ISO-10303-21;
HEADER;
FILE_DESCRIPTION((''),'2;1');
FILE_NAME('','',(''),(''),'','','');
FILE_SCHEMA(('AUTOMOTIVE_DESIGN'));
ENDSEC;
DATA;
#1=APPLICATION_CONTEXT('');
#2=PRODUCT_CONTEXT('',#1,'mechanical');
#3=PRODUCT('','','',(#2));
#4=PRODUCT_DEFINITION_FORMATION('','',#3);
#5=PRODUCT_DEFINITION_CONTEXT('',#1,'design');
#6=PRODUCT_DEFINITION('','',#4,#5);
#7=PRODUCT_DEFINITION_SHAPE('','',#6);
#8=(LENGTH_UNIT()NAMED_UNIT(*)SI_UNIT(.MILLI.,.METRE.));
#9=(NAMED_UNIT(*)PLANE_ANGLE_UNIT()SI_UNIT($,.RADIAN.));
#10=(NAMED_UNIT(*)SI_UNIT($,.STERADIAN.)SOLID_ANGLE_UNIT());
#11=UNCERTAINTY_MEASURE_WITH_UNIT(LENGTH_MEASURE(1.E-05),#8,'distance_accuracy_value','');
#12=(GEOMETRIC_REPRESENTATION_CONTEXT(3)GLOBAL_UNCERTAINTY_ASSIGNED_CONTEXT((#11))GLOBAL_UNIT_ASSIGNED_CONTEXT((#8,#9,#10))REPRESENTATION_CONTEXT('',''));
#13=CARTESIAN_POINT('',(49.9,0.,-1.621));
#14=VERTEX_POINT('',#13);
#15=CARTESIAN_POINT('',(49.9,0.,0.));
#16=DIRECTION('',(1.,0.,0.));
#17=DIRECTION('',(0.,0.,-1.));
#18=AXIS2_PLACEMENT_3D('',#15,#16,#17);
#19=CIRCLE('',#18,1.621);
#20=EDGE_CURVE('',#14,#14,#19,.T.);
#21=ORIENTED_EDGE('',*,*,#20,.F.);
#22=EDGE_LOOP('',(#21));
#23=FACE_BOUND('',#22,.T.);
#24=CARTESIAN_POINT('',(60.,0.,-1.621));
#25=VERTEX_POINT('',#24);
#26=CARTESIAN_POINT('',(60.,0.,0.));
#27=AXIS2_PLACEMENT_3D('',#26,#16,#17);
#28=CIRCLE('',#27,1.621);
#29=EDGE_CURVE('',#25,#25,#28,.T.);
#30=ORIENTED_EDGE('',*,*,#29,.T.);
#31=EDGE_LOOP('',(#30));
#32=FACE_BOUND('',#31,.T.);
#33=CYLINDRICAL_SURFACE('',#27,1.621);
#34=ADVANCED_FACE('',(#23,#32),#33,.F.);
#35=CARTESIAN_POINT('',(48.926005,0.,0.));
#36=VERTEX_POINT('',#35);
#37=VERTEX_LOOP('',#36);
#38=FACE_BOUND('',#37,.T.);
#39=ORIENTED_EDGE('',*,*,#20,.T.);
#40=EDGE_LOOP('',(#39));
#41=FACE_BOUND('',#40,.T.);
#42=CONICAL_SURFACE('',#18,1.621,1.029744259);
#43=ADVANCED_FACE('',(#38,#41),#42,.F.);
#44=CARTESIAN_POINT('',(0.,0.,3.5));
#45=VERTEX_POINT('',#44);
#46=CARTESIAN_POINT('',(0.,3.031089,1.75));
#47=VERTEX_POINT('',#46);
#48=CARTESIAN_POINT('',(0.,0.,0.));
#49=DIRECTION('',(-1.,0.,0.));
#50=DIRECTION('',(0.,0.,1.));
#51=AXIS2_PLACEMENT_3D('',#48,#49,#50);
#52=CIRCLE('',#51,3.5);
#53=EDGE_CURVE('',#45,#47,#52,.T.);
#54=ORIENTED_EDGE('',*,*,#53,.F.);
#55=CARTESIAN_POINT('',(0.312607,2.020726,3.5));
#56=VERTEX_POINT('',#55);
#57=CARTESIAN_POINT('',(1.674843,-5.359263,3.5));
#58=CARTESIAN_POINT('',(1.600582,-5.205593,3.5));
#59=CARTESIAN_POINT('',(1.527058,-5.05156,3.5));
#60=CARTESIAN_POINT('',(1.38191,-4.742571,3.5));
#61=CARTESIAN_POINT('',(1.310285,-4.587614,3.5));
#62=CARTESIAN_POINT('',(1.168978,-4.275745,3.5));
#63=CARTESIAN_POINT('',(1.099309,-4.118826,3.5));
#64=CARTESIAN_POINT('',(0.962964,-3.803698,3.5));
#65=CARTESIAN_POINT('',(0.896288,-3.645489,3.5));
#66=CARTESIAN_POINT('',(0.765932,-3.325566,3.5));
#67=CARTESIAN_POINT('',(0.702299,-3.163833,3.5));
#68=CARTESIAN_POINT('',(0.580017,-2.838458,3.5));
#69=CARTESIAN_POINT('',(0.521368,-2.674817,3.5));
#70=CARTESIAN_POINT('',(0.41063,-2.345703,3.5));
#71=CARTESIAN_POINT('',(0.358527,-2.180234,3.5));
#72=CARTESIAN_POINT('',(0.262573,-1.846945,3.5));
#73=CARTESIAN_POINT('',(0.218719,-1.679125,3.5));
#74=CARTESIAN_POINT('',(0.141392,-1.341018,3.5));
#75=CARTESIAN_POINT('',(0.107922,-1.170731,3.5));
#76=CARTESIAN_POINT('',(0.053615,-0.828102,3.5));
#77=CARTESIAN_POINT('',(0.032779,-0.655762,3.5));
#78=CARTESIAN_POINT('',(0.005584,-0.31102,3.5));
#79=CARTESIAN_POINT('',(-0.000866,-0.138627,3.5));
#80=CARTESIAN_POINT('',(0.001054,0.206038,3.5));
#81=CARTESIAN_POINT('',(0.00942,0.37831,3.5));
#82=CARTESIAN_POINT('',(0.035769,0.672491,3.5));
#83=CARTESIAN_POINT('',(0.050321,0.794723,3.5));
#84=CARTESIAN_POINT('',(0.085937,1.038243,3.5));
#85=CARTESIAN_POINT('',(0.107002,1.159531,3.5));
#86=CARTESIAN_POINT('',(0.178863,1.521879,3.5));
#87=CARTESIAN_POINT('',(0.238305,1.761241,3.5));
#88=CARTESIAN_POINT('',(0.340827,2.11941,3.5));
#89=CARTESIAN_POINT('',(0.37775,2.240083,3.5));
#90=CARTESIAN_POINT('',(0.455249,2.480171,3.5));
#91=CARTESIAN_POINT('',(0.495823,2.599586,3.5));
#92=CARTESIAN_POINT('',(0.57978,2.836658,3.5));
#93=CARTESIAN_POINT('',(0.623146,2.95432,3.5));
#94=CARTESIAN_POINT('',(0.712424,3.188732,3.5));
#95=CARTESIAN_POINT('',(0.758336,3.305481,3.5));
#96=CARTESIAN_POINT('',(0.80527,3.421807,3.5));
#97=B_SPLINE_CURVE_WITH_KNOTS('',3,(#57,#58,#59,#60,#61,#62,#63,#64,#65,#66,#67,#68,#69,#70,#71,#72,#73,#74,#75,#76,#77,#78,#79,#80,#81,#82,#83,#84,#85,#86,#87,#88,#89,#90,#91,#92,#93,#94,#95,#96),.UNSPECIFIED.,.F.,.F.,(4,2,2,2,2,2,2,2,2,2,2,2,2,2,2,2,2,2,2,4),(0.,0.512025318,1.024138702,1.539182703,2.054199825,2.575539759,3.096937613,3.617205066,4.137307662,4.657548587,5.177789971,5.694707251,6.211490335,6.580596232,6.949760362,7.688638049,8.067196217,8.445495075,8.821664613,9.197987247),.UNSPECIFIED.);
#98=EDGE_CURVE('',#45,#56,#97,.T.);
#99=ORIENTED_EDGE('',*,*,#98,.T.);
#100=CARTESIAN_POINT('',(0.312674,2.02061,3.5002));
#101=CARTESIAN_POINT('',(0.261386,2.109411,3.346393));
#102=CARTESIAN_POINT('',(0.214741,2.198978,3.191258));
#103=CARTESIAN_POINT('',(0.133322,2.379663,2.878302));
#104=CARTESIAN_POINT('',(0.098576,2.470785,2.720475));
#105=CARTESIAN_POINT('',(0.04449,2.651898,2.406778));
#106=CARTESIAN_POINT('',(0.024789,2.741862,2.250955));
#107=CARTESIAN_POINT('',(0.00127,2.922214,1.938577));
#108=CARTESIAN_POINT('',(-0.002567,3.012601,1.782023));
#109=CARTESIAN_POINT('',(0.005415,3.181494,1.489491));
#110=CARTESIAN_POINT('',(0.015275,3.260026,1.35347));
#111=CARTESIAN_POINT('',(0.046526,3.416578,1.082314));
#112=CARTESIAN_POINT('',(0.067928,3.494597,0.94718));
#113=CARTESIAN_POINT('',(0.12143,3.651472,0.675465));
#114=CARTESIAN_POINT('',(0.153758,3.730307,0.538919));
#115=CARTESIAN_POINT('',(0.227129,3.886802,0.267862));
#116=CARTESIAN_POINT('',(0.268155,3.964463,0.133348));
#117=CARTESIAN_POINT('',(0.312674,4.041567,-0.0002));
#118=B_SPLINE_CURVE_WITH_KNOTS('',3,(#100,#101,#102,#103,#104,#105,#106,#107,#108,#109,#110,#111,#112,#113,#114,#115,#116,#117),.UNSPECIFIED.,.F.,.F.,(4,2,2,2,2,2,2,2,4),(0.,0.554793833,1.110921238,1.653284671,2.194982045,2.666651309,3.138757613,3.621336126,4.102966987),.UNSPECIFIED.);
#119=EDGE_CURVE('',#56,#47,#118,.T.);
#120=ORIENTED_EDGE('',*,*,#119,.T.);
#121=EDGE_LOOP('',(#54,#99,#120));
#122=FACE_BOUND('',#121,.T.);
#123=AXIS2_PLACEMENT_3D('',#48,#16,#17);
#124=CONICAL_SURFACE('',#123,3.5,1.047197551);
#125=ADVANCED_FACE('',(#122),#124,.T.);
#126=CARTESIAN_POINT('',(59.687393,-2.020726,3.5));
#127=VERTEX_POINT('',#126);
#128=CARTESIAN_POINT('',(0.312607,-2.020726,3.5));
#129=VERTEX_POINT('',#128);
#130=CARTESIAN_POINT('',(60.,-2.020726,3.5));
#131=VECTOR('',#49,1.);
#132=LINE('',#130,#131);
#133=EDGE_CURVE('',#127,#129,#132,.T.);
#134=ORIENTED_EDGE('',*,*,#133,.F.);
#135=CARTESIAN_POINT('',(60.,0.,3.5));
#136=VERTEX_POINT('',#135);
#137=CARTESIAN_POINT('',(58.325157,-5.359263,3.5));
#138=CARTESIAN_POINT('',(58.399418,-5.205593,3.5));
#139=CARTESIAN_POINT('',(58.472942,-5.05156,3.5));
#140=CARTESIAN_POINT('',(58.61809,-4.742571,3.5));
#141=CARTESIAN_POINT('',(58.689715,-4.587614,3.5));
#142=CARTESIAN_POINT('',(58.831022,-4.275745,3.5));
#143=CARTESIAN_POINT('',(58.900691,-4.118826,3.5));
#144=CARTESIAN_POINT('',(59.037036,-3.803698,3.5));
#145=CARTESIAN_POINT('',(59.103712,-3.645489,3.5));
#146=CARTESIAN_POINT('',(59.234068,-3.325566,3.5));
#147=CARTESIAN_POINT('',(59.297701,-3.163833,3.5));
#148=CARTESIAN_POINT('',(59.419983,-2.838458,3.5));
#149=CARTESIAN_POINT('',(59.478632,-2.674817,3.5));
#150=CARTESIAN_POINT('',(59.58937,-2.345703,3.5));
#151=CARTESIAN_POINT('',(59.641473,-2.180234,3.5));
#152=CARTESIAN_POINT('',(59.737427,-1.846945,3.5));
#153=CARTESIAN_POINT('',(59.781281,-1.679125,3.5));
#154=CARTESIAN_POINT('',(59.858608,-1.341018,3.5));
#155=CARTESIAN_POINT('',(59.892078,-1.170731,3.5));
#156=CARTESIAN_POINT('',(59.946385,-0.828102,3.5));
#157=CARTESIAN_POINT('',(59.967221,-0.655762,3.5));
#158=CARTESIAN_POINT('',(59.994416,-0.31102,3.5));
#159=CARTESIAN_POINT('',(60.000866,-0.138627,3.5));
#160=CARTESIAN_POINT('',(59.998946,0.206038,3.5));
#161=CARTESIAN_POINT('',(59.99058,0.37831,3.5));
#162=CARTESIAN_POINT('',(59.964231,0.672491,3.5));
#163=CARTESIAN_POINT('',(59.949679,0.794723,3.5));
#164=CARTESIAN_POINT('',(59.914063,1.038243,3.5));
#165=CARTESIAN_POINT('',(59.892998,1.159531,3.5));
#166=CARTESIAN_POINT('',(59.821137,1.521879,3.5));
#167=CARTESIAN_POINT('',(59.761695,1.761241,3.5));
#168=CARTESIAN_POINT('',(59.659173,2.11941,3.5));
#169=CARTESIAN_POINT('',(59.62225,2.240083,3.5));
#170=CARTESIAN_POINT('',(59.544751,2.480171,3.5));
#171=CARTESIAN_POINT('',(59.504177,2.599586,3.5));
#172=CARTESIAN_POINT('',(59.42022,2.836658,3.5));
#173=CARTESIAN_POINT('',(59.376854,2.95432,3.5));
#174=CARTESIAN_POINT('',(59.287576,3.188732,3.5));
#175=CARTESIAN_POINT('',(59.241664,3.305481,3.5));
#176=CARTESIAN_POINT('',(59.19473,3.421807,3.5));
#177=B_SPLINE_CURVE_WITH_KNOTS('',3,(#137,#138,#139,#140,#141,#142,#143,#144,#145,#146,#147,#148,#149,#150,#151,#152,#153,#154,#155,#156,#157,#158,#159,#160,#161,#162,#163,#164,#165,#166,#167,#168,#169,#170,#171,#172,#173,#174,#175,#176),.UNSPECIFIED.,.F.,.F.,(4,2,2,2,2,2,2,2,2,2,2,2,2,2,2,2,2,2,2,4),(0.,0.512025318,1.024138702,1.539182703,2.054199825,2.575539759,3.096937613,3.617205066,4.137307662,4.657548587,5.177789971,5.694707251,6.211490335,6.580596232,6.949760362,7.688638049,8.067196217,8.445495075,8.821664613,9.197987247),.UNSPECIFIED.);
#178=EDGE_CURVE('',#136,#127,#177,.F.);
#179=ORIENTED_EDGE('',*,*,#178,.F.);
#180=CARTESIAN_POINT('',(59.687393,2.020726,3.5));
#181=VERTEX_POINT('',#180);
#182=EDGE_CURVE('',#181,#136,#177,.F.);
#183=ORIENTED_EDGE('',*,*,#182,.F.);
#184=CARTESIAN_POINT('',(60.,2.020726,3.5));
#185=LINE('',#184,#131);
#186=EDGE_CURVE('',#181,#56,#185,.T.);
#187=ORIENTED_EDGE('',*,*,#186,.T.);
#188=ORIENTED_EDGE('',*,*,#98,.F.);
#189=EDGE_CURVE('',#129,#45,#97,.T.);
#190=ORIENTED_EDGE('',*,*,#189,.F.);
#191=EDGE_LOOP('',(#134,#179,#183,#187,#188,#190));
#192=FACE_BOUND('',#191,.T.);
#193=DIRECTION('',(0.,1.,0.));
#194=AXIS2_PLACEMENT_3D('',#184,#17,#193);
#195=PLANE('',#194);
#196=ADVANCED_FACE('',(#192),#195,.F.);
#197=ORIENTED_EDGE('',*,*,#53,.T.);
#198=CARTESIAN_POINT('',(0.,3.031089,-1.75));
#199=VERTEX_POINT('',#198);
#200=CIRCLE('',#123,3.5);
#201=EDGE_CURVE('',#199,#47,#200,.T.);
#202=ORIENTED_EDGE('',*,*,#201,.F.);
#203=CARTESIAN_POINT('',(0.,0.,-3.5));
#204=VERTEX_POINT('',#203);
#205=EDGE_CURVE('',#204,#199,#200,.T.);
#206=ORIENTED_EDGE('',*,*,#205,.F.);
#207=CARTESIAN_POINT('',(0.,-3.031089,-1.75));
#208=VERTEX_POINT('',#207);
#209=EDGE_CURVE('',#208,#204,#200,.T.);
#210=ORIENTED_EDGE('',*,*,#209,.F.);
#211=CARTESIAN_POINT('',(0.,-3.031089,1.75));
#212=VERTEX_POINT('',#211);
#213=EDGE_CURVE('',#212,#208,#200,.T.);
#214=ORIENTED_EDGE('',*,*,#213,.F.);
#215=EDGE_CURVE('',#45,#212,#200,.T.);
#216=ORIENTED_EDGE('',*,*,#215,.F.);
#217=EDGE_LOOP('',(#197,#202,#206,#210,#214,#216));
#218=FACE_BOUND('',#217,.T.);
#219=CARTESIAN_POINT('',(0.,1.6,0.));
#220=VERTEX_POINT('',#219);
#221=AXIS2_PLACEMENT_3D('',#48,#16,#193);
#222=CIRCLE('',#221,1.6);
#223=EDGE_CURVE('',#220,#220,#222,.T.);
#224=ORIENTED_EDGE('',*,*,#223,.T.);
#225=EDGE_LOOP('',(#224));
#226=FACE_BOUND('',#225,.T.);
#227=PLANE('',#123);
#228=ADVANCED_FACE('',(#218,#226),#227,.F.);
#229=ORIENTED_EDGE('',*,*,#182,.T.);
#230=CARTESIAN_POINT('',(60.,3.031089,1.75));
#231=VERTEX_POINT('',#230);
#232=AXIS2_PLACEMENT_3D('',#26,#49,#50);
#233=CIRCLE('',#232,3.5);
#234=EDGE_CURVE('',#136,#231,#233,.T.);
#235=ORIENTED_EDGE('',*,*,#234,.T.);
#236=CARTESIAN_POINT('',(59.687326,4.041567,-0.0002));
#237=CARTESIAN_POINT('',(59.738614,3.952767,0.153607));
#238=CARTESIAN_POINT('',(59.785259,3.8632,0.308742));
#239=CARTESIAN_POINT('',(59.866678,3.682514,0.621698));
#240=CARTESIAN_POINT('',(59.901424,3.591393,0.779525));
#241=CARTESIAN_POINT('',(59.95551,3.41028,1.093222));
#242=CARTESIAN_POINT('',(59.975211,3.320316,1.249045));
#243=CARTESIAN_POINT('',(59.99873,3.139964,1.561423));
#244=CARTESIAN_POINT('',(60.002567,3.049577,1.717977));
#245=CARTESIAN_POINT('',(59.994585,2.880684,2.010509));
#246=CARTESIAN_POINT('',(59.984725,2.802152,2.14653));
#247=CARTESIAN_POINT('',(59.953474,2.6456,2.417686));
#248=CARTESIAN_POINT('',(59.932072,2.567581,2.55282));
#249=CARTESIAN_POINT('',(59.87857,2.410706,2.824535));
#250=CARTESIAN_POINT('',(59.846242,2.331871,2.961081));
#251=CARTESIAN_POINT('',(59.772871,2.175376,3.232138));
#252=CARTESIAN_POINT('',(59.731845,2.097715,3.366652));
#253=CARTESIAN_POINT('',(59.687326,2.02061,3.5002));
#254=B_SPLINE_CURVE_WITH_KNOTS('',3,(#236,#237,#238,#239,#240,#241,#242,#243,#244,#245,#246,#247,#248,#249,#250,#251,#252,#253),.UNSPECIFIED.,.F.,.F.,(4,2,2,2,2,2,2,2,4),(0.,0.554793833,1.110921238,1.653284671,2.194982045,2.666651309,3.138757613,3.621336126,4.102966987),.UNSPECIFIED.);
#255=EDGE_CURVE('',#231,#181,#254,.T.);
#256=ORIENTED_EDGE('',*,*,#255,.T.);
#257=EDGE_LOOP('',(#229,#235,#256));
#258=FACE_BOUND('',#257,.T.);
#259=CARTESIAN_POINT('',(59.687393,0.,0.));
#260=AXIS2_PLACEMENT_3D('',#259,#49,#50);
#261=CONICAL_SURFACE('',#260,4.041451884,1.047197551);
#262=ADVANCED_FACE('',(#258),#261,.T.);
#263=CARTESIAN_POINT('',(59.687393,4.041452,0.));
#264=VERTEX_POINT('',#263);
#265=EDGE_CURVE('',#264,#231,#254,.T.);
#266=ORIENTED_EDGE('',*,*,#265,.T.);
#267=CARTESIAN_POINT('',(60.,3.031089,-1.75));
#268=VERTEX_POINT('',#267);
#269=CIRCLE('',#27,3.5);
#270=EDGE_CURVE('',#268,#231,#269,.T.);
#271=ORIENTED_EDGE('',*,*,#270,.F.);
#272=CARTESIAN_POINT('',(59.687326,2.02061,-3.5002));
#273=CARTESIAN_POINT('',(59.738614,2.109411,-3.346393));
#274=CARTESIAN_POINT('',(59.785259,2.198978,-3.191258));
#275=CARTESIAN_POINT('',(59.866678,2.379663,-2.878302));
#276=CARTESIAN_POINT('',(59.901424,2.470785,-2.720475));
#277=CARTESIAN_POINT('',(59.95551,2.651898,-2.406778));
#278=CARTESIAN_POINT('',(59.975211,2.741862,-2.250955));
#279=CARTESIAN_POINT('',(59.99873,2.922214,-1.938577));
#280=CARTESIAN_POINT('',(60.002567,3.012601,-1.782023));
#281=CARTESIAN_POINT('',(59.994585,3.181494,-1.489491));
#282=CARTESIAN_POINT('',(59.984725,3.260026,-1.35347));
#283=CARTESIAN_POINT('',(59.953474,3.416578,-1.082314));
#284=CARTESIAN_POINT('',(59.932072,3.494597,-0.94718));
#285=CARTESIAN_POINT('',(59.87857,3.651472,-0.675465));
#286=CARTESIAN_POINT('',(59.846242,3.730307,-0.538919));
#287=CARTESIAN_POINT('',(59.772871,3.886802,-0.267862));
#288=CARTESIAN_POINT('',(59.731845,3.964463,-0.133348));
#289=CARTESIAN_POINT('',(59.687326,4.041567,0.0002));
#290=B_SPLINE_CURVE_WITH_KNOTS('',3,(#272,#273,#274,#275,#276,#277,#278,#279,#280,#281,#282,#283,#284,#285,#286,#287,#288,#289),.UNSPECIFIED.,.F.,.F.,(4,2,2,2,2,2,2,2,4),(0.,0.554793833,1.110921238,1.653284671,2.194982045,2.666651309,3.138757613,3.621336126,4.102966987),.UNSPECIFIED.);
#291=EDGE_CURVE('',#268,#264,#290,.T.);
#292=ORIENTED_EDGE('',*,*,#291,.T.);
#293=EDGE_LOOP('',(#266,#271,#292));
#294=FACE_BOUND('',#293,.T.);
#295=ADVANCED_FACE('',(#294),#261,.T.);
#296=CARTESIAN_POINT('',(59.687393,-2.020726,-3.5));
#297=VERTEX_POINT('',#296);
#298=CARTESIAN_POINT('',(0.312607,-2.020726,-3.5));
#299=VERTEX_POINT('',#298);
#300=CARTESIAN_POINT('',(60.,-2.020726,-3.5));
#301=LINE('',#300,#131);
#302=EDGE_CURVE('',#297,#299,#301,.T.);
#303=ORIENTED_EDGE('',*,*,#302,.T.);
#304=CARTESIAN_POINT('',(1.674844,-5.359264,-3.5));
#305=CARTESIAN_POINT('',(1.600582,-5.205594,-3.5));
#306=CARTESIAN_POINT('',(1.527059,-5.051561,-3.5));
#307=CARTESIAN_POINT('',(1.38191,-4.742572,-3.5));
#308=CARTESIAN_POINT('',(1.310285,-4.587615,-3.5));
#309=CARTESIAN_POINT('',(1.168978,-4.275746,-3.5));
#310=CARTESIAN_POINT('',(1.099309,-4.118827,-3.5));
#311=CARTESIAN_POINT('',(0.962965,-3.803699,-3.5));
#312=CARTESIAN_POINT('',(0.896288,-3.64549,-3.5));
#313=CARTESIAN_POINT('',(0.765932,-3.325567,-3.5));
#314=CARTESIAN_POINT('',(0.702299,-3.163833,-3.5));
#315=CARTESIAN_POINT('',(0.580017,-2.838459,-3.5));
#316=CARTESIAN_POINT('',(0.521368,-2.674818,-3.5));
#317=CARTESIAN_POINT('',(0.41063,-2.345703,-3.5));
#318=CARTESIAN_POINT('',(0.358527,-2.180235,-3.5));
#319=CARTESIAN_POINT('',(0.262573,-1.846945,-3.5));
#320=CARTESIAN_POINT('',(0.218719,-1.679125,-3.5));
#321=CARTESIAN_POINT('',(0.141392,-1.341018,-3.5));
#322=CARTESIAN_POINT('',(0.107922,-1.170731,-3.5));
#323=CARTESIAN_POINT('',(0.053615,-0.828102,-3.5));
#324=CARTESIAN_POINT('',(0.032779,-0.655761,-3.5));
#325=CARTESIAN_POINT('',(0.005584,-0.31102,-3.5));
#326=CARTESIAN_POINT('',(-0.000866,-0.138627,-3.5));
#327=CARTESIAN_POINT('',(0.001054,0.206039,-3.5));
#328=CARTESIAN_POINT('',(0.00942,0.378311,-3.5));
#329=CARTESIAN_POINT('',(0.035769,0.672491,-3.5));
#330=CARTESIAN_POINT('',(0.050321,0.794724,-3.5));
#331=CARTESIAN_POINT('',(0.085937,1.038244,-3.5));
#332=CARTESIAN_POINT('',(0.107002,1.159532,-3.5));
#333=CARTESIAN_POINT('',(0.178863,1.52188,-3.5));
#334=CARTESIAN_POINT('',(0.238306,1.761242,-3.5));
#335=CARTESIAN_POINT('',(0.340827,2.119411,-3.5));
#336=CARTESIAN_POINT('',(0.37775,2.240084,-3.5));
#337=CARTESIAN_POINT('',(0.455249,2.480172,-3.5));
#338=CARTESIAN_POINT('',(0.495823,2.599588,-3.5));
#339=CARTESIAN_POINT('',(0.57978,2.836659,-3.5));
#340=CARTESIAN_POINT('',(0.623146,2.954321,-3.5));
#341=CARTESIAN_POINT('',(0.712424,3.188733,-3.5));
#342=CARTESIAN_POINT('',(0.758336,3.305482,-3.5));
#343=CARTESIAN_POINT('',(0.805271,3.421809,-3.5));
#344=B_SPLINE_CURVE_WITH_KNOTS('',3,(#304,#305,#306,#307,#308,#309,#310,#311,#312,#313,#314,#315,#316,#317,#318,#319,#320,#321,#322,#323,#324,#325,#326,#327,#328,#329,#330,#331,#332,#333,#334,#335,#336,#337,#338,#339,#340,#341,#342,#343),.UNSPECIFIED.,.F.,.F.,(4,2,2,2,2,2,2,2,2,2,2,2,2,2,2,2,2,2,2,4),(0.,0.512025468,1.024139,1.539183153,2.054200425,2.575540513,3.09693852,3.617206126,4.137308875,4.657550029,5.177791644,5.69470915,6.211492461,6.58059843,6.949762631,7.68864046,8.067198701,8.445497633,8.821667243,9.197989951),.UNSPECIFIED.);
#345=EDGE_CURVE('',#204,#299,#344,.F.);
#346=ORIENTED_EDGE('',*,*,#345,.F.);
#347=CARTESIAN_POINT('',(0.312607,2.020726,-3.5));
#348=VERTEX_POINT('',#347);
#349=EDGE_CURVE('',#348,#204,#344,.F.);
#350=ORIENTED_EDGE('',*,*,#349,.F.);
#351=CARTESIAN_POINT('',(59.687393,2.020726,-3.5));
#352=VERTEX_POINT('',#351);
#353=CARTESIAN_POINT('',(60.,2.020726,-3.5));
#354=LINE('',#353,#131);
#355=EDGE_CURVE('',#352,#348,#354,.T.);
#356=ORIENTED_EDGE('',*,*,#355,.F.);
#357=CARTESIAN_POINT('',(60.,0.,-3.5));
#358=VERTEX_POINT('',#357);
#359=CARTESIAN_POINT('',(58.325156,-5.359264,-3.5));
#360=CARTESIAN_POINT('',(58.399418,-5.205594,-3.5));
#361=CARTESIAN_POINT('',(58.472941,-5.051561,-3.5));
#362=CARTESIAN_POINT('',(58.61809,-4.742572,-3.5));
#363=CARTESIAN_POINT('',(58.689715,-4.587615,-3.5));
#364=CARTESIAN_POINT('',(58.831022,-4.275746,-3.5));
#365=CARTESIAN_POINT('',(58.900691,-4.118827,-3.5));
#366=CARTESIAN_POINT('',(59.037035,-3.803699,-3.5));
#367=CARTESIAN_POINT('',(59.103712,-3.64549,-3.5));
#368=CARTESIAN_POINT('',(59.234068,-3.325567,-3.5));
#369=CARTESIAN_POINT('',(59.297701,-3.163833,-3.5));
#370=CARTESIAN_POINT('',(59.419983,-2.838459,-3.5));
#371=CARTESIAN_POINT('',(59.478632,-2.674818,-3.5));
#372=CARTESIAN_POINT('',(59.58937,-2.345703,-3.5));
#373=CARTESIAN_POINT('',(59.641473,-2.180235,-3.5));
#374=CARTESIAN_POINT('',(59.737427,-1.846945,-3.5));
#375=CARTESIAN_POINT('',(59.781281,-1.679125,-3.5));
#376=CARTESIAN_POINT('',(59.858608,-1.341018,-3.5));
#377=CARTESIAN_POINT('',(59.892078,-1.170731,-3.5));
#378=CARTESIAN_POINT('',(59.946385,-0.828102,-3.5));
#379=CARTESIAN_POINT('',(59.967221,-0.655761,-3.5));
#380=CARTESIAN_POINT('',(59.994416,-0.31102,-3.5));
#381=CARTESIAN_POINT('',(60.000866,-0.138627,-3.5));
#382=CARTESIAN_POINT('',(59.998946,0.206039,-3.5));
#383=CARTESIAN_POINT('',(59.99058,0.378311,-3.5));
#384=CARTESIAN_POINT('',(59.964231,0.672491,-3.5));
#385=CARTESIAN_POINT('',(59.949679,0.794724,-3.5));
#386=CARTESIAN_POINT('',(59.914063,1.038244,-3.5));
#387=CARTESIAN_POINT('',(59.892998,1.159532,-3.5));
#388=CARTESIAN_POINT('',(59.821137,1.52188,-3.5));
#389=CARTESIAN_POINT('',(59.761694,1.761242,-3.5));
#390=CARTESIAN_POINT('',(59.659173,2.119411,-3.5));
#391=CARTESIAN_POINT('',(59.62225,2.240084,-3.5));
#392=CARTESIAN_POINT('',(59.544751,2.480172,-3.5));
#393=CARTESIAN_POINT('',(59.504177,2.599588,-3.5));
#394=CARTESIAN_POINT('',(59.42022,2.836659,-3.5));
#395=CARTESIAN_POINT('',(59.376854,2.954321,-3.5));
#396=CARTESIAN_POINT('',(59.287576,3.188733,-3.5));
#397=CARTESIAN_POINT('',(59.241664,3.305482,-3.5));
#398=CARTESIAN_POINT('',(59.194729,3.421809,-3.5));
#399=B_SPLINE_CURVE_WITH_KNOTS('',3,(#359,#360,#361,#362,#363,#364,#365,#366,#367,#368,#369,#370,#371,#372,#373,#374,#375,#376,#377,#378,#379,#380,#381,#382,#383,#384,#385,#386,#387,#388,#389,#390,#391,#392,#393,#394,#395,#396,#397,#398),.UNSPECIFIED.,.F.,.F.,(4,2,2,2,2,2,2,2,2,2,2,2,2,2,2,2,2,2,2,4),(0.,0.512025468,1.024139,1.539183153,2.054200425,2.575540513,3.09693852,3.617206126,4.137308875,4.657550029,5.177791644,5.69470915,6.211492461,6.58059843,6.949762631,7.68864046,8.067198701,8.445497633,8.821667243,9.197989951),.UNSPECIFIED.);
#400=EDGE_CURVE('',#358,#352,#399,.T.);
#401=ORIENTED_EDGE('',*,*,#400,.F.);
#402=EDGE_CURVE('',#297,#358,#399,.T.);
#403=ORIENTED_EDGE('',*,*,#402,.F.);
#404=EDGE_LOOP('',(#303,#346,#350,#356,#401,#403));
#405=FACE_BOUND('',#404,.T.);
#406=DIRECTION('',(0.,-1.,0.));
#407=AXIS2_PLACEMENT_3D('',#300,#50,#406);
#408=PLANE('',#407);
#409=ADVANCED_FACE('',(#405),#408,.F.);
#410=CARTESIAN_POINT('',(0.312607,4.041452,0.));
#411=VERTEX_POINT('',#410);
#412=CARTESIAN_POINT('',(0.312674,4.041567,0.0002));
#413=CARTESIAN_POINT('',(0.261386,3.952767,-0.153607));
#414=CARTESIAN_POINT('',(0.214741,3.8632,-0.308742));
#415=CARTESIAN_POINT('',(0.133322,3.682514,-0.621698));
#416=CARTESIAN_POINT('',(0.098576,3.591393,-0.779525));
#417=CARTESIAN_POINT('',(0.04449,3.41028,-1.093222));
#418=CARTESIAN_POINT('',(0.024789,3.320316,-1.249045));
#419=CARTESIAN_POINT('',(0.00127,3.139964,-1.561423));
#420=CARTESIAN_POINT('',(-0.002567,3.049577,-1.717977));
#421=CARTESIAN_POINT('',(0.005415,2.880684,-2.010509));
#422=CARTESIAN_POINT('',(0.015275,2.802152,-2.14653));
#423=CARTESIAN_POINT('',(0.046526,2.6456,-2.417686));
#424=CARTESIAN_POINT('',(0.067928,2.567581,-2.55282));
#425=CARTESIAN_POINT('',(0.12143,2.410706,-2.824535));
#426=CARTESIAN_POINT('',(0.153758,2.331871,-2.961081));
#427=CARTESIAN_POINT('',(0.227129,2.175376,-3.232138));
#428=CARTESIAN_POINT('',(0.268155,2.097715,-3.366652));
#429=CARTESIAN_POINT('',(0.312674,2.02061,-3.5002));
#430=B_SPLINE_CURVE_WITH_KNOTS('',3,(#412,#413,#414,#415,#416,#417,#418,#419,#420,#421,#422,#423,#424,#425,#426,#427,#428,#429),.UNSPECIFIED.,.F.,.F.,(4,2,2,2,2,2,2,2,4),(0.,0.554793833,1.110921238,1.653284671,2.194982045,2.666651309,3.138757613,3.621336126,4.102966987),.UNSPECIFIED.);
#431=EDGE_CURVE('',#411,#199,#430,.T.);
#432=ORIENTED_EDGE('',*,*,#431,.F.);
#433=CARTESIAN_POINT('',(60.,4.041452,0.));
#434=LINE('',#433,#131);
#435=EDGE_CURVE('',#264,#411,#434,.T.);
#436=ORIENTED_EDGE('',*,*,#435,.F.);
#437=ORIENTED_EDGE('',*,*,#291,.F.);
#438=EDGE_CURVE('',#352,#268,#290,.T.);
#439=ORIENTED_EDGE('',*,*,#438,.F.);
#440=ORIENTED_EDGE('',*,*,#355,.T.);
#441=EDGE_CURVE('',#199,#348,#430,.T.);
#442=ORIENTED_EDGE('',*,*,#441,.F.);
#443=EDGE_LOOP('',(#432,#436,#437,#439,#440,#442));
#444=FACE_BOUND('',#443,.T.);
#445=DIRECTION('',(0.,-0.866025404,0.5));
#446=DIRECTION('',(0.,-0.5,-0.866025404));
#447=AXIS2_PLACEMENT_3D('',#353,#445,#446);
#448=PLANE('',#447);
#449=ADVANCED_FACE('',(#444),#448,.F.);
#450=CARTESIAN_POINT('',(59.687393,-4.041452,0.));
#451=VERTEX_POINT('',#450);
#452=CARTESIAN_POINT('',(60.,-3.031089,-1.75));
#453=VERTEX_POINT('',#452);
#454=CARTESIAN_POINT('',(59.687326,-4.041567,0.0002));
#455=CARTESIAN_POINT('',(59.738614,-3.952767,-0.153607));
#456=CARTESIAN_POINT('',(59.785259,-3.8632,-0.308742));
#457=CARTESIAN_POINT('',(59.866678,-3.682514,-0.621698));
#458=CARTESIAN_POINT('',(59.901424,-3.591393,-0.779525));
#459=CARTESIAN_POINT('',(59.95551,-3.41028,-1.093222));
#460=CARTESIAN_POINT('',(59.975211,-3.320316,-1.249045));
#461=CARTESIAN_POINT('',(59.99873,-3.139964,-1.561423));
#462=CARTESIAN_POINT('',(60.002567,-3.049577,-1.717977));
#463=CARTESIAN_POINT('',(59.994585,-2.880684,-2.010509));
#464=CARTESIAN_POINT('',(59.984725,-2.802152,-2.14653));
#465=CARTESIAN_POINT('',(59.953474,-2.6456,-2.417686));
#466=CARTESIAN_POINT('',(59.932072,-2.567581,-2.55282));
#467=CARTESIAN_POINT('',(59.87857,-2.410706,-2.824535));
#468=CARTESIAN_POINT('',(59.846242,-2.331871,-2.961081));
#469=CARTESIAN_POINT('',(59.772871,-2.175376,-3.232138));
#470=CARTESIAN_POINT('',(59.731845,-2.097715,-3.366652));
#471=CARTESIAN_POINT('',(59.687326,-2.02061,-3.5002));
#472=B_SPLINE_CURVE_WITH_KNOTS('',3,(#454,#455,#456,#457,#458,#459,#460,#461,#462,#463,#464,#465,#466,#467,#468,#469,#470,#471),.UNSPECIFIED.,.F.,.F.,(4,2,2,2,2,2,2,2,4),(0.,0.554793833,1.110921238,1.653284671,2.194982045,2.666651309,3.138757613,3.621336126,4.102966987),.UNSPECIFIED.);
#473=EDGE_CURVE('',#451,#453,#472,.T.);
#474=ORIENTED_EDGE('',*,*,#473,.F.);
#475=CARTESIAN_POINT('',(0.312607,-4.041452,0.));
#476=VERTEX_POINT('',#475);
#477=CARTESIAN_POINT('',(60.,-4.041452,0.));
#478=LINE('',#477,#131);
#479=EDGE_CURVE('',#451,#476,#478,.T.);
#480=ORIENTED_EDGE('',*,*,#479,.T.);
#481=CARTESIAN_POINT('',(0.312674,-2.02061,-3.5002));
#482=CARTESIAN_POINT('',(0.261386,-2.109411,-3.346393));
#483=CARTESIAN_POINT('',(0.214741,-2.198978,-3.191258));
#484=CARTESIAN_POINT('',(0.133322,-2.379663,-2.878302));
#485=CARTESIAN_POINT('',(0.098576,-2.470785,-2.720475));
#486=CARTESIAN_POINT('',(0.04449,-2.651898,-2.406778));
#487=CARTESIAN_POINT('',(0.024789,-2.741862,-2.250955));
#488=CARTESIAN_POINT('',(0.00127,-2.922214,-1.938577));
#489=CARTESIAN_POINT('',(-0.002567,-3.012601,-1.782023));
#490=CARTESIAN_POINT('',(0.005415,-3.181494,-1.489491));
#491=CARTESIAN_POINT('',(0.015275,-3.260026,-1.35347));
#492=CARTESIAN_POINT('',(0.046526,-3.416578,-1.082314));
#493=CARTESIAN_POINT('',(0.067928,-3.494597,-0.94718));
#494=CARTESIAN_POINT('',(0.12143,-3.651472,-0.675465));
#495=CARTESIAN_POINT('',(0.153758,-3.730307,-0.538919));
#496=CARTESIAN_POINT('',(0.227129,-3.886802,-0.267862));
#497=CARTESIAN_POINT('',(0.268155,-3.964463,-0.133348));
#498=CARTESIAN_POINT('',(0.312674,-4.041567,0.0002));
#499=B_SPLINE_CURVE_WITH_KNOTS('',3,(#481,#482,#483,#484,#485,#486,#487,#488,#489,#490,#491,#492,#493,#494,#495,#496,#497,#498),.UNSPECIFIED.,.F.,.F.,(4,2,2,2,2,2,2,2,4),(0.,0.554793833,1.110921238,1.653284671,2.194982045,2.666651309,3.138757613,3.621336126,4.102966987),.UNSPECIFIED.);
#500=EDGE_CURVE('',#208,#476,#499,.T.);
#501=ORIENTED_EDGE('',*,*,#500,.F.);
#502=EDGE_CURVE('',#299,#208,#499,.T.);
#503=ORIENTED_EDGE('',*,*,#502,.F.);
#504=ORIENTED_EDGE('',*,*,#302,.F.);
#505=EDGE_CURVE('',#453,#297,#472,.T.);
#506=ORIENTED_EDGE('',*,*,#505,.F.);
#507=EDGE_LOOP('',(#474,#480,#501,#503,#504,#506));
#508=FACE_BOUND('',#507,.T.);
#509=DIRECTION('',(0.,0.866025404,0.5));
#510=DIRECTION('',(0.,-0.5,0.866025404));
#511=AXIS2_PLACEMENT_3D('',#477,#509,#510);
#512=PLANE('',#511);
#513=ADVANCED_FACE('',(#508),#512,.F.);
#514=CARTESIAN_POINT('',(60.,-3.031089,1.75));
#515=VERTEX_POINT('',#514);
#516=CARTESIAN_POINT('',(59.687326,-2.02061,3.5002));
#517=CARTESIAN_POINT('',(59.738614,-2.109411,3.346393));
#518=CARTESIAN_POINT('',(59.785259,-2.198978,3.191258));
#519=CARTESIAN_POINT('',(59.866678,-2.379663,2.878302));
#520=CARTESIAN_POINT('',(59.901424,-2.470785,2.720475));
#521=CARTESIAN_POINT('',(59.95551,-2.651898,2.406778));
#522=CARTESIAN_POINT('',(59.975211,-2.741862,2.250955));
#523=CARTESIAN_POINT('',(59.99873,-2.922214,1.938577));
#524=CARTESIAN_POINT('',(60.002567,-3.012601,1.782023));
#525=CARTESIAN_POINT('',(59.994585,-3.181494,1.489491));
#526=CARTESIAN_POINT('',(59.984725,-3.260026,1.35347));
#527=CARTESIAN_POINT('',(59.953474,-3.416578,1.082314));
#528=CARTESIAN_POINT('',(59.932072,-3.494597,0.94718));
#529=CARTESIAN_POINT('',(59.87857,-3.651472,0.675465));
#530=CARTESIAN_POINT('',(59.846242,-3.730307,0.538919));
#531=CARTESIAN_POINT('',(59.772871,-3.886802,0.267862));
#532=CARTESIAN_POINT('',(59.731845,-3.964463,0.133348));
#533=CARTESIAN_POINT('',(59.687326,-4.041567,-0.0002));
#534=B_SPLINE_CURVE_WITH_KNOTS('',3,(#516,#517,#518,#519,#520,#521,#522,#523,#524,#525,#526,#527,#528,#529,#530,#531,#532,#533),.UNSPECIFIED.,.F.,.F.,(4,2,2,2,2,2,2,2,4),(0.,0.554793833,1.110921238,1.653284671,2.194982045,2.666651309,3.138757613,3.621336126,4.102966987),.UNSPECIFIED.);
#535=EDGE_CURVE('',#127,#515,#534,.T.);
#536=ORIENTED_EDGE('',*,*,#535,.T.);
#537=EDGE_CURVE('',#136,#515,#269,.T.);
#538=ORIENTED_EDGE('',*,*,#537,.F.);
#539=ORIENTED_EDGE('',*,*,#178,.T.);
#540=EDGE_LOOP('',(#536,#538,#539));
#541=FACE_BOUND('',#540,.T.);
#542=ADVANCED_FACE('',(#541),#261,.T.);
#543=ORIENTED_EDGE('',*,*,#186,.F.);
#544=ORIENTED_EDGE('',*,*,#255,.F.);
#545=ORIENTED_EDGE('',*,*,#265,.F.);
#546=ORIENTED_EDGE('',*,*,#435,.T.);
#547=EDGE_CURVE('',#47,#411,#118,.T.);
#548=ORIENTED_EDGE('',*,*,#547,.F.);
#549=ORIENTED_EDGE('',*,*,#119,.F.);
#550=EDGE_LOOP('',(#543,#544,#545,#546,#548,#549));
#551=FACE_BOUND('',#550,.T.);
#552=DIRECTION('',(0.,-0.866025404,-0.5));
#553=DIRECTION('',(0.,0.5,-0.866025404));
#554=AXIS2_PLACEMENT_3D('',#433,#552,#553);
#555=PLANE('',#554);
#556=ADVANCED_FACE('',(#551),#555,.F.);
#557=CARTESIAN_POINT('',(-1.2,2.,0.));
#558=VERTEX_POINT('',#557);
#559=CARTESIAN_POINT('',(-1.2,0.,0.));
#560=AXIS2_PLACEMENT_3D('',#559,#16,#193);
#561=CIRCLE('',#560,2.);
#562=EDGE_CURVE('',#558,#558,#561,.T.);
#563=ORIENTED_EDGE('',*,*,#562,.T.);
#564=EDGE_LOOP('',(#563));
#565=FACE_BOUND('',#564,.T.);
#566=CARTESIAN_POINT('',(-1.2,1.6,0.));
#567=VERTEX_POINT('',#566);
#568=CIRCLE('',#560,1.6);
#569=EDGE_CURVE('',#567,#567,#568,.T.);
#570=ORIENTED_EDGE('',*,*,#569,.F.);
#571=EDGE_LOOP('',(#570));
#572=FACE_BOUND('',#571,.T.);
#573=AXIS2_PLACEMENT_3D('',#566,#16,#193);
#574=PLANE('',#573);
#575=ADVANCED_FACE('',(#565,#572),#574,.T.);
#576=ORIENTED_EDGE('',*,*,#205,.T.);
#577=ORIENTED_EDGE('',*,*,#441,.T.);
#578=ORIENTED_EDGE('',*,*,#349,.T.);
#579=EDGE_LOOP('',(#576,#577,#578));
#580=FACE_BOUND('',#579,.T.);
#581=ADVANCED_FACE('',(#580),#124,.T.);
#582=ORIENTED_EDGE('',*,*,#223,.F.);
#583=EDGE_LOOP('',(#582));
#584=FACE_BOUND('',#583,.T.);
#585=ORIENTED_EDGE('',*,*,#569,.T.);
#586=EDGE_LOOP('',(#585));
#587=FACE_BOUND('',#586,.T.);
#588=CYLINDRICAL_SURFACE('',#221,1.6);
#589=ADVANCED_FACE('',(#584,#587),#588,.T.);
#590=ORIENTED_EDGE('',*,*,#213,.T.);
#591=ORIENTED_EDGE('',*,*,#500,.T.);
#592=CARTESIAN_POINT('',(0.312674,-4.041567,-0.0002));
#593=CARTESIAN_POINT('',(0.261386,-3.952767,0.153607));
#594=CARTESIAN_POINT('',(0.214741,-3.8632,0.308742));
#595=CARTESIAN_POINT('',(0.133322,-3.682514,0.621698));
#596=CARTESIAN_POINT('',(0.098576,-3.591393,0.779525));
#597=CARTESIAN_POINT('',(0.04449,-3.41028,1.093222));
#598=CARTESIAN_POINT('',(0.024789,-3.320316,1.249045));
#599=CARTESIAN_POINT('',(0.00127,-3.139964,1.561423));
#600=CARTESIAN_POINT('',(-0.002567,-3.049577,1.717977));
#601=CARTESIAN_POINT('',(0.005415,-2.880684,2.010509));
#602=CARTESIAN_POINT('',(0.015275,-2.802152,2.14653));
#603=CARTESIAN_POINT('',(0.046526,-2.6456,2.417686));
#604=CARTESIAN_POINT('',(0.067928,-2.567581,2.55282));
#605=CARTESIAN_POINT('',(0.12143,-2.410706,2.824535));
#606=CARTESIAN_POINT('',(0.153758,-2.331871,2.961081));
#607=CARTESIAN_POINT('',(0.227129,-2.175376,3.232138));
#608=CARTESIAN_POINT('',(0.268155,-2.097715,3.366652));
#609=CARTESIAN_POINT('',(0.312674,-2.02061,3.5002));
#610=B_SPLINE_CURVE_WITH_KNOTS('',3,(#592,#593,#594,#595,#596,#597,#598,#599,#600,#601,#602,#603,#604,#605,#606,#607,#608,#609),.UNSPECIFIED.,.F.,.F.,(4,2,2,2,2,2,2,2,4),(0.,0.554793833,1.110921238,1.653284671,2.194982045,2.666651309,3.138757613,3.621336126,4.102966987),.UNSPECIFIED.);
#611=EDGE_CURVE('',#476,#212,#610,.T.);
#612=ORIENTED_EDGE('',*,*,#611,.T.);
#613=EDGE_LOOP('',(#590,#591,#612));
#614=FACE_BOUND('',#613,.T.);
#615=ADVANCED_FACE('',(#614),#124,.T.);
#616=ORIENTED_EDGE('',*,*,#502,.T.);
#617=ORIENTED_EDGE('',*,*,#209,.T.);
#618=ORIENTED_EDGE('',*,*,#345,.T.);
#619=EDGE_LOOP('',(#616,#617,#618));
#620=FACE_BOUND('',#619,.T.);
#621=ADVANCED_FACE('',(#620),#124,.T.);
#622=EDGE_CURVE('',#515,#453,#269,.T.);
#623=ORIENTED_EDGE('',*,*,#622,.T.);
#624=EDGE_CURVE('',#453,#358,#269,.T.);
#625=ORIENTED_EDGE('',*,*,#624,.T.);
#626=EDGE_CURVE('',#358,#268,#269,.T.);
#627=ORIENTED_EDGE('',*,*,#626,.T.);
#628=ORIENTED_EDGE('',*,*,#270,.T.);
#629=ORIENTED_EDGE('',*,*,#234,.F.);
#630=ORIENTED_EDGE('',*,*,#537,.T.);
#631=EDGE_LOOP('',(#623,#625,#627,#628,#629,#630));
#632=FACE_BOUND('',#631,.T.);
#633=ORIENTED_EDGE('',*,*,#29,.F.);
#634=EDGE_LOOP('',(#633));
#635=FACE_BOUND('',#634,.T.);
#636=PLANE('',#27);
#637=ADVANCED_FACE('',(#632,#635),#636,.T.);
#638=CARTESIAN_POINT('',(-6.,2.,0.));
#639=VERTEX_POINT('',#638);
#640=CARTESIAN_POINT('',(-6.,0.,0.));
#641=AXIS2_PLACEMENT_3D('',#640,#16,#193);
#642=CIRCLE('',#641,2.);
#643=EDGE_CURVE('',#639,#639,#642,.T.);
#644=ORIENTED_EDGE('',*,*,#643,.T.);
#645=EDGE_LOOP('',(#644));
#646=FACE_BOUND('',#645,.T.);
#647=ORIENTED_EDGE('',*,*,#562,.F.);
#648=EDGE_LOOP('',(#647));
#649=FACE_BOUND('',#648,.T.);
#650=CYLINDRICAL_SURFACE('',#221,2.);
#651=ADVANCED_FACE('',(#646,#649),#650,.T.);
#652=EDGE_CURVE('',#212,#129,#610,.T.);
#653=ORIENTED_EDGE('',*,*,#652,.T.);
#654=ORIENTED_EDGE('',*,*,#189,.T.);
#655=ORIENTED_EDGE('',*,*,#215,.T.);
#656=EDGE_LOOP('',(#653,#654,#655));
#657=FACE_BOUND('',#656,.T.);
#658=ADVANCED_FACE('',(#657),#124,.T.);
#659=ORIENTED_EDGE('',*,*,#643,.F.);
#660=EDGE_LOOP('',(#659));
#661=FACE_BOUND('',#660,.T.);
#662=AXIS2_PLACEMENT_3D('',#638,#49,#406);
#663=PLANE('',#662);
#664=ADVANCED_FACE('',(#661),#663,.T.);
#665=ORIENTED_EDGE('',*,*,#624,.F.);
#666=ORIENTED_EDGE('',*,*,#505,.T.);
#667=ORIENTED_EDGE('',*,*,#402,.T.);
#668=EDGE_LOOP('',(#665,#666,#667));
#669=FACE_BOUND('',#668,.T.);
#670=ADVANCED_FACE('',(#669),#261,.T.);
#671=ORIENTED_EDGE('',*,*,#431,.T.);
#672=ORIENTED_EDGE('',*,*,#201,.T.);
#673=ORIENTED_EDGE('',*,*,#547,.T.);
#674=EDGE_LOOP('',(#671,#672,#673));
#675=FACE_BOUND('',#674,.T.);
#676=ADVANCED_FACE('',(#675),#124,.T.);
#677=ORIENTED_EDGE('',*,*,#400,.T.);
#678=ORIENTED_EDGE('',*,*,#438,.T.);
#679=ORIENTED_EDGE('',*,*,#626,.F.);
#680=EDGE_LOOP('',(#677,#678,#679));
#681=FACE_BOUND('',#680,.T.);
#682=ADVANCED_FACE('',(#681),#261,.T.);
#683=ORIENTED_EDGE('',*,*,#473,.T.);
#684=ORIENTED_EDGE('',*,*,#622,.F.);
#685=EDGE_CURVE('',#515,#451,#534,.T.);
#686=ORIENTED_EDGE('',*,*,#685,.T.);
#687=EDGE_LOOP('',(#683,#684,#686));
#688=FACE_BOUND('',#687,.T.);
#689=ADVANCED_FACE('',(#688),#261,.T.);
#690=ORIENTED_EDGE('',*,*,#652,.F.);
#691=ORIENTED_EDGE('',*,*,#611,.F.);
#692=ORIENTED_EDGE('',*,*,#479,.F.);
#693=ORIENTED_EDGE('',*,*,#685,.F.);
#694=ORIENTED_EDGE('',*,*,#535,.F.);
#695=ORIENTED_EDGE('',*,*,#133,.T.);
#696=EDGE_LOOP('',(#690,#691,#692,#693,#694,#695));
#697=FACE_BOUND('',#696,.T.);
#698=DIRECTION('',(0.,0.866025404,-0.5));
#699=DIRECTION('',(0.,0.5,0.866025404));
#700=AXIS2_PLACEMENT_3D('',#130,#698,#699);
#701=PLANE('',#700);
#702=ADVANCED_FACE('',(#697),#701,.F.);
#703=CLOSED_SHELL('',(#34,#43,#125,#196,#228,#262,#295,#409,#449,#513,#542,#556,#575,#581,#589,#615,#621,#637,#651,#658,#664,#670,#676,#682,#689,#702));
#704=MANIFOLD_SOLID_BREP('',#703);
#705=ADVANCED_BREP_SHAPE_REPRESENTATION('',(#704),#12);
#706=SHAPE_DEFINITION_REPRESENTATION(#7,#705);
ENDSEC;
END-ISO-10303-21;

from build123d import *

# Parameters (mm, degrees)
BOSS_EXTRUDE1_DEPTH = 60
TAP2_D              = 3.242
TAP2_DEPTH          = 10.1
TAP2_TIP            = 0.973995063


with BuildPart() as part:
    # Sketch1 → Boss-Extrude1 (new body)
    with BuildSketch(Plane(origin=(0, 0, 0), x_dir=(0, 0, -1), z_dir=(1, 0, 0))):
        Polygon((0, 4.041451884), (-3.5, 2.020725942), (-3.5, -2.020725942), (0, -4.041451884), (3.5, -2.020725942), (3.5, 2.020725942), align=None)
    extrude(amount=BOSS_EXTRUDE1_DEPTH)

    # Sketch2 → Cut-Revolve1 (revolve, cut)
    with BuildSketch(Plane.XY):
        Polygon((0, 4.041451884), (0, 3.5), (0.312607391, 4.041451884), align=None)
        Polygon((59.687392609, 4.041451884), (60, 4.041451884), (60, 3.5), align=None)
    revolve(axis=Axis((0, 0, 0), (1, 0, 0)), mode=Mode.SUBTRACT)

    # Sketch6 → Revolve2 (revolve)
    with BuildSketch(Plane.XY):
        Polygon((0, 0), (0, 1.6), (-1.2, 1.6), (-1.2, 2), (-6, 2), (-6, 0), align=None)
    revolve(axis=Axis((0, 0, 0), (-1, 0, 0)))

    # Tap2
    with Locations(Plane(origin=(60, 0, 0), x_dir=(0, 0, -1), z_dir=(1, 0, 0))):
        with Locations((0, 0)):
            Hole(TAP2_D / 2, depth=TAP2_DEPTH)
            with Locations((0, 0, -(TAP2_DEPTH + TAP2_TIP / 2))):  # 118° drill point
                Cone(0, TAP2_D / 2, TAP2_TIP, mode=Mode.SUBTRACT)


solid = part.part
